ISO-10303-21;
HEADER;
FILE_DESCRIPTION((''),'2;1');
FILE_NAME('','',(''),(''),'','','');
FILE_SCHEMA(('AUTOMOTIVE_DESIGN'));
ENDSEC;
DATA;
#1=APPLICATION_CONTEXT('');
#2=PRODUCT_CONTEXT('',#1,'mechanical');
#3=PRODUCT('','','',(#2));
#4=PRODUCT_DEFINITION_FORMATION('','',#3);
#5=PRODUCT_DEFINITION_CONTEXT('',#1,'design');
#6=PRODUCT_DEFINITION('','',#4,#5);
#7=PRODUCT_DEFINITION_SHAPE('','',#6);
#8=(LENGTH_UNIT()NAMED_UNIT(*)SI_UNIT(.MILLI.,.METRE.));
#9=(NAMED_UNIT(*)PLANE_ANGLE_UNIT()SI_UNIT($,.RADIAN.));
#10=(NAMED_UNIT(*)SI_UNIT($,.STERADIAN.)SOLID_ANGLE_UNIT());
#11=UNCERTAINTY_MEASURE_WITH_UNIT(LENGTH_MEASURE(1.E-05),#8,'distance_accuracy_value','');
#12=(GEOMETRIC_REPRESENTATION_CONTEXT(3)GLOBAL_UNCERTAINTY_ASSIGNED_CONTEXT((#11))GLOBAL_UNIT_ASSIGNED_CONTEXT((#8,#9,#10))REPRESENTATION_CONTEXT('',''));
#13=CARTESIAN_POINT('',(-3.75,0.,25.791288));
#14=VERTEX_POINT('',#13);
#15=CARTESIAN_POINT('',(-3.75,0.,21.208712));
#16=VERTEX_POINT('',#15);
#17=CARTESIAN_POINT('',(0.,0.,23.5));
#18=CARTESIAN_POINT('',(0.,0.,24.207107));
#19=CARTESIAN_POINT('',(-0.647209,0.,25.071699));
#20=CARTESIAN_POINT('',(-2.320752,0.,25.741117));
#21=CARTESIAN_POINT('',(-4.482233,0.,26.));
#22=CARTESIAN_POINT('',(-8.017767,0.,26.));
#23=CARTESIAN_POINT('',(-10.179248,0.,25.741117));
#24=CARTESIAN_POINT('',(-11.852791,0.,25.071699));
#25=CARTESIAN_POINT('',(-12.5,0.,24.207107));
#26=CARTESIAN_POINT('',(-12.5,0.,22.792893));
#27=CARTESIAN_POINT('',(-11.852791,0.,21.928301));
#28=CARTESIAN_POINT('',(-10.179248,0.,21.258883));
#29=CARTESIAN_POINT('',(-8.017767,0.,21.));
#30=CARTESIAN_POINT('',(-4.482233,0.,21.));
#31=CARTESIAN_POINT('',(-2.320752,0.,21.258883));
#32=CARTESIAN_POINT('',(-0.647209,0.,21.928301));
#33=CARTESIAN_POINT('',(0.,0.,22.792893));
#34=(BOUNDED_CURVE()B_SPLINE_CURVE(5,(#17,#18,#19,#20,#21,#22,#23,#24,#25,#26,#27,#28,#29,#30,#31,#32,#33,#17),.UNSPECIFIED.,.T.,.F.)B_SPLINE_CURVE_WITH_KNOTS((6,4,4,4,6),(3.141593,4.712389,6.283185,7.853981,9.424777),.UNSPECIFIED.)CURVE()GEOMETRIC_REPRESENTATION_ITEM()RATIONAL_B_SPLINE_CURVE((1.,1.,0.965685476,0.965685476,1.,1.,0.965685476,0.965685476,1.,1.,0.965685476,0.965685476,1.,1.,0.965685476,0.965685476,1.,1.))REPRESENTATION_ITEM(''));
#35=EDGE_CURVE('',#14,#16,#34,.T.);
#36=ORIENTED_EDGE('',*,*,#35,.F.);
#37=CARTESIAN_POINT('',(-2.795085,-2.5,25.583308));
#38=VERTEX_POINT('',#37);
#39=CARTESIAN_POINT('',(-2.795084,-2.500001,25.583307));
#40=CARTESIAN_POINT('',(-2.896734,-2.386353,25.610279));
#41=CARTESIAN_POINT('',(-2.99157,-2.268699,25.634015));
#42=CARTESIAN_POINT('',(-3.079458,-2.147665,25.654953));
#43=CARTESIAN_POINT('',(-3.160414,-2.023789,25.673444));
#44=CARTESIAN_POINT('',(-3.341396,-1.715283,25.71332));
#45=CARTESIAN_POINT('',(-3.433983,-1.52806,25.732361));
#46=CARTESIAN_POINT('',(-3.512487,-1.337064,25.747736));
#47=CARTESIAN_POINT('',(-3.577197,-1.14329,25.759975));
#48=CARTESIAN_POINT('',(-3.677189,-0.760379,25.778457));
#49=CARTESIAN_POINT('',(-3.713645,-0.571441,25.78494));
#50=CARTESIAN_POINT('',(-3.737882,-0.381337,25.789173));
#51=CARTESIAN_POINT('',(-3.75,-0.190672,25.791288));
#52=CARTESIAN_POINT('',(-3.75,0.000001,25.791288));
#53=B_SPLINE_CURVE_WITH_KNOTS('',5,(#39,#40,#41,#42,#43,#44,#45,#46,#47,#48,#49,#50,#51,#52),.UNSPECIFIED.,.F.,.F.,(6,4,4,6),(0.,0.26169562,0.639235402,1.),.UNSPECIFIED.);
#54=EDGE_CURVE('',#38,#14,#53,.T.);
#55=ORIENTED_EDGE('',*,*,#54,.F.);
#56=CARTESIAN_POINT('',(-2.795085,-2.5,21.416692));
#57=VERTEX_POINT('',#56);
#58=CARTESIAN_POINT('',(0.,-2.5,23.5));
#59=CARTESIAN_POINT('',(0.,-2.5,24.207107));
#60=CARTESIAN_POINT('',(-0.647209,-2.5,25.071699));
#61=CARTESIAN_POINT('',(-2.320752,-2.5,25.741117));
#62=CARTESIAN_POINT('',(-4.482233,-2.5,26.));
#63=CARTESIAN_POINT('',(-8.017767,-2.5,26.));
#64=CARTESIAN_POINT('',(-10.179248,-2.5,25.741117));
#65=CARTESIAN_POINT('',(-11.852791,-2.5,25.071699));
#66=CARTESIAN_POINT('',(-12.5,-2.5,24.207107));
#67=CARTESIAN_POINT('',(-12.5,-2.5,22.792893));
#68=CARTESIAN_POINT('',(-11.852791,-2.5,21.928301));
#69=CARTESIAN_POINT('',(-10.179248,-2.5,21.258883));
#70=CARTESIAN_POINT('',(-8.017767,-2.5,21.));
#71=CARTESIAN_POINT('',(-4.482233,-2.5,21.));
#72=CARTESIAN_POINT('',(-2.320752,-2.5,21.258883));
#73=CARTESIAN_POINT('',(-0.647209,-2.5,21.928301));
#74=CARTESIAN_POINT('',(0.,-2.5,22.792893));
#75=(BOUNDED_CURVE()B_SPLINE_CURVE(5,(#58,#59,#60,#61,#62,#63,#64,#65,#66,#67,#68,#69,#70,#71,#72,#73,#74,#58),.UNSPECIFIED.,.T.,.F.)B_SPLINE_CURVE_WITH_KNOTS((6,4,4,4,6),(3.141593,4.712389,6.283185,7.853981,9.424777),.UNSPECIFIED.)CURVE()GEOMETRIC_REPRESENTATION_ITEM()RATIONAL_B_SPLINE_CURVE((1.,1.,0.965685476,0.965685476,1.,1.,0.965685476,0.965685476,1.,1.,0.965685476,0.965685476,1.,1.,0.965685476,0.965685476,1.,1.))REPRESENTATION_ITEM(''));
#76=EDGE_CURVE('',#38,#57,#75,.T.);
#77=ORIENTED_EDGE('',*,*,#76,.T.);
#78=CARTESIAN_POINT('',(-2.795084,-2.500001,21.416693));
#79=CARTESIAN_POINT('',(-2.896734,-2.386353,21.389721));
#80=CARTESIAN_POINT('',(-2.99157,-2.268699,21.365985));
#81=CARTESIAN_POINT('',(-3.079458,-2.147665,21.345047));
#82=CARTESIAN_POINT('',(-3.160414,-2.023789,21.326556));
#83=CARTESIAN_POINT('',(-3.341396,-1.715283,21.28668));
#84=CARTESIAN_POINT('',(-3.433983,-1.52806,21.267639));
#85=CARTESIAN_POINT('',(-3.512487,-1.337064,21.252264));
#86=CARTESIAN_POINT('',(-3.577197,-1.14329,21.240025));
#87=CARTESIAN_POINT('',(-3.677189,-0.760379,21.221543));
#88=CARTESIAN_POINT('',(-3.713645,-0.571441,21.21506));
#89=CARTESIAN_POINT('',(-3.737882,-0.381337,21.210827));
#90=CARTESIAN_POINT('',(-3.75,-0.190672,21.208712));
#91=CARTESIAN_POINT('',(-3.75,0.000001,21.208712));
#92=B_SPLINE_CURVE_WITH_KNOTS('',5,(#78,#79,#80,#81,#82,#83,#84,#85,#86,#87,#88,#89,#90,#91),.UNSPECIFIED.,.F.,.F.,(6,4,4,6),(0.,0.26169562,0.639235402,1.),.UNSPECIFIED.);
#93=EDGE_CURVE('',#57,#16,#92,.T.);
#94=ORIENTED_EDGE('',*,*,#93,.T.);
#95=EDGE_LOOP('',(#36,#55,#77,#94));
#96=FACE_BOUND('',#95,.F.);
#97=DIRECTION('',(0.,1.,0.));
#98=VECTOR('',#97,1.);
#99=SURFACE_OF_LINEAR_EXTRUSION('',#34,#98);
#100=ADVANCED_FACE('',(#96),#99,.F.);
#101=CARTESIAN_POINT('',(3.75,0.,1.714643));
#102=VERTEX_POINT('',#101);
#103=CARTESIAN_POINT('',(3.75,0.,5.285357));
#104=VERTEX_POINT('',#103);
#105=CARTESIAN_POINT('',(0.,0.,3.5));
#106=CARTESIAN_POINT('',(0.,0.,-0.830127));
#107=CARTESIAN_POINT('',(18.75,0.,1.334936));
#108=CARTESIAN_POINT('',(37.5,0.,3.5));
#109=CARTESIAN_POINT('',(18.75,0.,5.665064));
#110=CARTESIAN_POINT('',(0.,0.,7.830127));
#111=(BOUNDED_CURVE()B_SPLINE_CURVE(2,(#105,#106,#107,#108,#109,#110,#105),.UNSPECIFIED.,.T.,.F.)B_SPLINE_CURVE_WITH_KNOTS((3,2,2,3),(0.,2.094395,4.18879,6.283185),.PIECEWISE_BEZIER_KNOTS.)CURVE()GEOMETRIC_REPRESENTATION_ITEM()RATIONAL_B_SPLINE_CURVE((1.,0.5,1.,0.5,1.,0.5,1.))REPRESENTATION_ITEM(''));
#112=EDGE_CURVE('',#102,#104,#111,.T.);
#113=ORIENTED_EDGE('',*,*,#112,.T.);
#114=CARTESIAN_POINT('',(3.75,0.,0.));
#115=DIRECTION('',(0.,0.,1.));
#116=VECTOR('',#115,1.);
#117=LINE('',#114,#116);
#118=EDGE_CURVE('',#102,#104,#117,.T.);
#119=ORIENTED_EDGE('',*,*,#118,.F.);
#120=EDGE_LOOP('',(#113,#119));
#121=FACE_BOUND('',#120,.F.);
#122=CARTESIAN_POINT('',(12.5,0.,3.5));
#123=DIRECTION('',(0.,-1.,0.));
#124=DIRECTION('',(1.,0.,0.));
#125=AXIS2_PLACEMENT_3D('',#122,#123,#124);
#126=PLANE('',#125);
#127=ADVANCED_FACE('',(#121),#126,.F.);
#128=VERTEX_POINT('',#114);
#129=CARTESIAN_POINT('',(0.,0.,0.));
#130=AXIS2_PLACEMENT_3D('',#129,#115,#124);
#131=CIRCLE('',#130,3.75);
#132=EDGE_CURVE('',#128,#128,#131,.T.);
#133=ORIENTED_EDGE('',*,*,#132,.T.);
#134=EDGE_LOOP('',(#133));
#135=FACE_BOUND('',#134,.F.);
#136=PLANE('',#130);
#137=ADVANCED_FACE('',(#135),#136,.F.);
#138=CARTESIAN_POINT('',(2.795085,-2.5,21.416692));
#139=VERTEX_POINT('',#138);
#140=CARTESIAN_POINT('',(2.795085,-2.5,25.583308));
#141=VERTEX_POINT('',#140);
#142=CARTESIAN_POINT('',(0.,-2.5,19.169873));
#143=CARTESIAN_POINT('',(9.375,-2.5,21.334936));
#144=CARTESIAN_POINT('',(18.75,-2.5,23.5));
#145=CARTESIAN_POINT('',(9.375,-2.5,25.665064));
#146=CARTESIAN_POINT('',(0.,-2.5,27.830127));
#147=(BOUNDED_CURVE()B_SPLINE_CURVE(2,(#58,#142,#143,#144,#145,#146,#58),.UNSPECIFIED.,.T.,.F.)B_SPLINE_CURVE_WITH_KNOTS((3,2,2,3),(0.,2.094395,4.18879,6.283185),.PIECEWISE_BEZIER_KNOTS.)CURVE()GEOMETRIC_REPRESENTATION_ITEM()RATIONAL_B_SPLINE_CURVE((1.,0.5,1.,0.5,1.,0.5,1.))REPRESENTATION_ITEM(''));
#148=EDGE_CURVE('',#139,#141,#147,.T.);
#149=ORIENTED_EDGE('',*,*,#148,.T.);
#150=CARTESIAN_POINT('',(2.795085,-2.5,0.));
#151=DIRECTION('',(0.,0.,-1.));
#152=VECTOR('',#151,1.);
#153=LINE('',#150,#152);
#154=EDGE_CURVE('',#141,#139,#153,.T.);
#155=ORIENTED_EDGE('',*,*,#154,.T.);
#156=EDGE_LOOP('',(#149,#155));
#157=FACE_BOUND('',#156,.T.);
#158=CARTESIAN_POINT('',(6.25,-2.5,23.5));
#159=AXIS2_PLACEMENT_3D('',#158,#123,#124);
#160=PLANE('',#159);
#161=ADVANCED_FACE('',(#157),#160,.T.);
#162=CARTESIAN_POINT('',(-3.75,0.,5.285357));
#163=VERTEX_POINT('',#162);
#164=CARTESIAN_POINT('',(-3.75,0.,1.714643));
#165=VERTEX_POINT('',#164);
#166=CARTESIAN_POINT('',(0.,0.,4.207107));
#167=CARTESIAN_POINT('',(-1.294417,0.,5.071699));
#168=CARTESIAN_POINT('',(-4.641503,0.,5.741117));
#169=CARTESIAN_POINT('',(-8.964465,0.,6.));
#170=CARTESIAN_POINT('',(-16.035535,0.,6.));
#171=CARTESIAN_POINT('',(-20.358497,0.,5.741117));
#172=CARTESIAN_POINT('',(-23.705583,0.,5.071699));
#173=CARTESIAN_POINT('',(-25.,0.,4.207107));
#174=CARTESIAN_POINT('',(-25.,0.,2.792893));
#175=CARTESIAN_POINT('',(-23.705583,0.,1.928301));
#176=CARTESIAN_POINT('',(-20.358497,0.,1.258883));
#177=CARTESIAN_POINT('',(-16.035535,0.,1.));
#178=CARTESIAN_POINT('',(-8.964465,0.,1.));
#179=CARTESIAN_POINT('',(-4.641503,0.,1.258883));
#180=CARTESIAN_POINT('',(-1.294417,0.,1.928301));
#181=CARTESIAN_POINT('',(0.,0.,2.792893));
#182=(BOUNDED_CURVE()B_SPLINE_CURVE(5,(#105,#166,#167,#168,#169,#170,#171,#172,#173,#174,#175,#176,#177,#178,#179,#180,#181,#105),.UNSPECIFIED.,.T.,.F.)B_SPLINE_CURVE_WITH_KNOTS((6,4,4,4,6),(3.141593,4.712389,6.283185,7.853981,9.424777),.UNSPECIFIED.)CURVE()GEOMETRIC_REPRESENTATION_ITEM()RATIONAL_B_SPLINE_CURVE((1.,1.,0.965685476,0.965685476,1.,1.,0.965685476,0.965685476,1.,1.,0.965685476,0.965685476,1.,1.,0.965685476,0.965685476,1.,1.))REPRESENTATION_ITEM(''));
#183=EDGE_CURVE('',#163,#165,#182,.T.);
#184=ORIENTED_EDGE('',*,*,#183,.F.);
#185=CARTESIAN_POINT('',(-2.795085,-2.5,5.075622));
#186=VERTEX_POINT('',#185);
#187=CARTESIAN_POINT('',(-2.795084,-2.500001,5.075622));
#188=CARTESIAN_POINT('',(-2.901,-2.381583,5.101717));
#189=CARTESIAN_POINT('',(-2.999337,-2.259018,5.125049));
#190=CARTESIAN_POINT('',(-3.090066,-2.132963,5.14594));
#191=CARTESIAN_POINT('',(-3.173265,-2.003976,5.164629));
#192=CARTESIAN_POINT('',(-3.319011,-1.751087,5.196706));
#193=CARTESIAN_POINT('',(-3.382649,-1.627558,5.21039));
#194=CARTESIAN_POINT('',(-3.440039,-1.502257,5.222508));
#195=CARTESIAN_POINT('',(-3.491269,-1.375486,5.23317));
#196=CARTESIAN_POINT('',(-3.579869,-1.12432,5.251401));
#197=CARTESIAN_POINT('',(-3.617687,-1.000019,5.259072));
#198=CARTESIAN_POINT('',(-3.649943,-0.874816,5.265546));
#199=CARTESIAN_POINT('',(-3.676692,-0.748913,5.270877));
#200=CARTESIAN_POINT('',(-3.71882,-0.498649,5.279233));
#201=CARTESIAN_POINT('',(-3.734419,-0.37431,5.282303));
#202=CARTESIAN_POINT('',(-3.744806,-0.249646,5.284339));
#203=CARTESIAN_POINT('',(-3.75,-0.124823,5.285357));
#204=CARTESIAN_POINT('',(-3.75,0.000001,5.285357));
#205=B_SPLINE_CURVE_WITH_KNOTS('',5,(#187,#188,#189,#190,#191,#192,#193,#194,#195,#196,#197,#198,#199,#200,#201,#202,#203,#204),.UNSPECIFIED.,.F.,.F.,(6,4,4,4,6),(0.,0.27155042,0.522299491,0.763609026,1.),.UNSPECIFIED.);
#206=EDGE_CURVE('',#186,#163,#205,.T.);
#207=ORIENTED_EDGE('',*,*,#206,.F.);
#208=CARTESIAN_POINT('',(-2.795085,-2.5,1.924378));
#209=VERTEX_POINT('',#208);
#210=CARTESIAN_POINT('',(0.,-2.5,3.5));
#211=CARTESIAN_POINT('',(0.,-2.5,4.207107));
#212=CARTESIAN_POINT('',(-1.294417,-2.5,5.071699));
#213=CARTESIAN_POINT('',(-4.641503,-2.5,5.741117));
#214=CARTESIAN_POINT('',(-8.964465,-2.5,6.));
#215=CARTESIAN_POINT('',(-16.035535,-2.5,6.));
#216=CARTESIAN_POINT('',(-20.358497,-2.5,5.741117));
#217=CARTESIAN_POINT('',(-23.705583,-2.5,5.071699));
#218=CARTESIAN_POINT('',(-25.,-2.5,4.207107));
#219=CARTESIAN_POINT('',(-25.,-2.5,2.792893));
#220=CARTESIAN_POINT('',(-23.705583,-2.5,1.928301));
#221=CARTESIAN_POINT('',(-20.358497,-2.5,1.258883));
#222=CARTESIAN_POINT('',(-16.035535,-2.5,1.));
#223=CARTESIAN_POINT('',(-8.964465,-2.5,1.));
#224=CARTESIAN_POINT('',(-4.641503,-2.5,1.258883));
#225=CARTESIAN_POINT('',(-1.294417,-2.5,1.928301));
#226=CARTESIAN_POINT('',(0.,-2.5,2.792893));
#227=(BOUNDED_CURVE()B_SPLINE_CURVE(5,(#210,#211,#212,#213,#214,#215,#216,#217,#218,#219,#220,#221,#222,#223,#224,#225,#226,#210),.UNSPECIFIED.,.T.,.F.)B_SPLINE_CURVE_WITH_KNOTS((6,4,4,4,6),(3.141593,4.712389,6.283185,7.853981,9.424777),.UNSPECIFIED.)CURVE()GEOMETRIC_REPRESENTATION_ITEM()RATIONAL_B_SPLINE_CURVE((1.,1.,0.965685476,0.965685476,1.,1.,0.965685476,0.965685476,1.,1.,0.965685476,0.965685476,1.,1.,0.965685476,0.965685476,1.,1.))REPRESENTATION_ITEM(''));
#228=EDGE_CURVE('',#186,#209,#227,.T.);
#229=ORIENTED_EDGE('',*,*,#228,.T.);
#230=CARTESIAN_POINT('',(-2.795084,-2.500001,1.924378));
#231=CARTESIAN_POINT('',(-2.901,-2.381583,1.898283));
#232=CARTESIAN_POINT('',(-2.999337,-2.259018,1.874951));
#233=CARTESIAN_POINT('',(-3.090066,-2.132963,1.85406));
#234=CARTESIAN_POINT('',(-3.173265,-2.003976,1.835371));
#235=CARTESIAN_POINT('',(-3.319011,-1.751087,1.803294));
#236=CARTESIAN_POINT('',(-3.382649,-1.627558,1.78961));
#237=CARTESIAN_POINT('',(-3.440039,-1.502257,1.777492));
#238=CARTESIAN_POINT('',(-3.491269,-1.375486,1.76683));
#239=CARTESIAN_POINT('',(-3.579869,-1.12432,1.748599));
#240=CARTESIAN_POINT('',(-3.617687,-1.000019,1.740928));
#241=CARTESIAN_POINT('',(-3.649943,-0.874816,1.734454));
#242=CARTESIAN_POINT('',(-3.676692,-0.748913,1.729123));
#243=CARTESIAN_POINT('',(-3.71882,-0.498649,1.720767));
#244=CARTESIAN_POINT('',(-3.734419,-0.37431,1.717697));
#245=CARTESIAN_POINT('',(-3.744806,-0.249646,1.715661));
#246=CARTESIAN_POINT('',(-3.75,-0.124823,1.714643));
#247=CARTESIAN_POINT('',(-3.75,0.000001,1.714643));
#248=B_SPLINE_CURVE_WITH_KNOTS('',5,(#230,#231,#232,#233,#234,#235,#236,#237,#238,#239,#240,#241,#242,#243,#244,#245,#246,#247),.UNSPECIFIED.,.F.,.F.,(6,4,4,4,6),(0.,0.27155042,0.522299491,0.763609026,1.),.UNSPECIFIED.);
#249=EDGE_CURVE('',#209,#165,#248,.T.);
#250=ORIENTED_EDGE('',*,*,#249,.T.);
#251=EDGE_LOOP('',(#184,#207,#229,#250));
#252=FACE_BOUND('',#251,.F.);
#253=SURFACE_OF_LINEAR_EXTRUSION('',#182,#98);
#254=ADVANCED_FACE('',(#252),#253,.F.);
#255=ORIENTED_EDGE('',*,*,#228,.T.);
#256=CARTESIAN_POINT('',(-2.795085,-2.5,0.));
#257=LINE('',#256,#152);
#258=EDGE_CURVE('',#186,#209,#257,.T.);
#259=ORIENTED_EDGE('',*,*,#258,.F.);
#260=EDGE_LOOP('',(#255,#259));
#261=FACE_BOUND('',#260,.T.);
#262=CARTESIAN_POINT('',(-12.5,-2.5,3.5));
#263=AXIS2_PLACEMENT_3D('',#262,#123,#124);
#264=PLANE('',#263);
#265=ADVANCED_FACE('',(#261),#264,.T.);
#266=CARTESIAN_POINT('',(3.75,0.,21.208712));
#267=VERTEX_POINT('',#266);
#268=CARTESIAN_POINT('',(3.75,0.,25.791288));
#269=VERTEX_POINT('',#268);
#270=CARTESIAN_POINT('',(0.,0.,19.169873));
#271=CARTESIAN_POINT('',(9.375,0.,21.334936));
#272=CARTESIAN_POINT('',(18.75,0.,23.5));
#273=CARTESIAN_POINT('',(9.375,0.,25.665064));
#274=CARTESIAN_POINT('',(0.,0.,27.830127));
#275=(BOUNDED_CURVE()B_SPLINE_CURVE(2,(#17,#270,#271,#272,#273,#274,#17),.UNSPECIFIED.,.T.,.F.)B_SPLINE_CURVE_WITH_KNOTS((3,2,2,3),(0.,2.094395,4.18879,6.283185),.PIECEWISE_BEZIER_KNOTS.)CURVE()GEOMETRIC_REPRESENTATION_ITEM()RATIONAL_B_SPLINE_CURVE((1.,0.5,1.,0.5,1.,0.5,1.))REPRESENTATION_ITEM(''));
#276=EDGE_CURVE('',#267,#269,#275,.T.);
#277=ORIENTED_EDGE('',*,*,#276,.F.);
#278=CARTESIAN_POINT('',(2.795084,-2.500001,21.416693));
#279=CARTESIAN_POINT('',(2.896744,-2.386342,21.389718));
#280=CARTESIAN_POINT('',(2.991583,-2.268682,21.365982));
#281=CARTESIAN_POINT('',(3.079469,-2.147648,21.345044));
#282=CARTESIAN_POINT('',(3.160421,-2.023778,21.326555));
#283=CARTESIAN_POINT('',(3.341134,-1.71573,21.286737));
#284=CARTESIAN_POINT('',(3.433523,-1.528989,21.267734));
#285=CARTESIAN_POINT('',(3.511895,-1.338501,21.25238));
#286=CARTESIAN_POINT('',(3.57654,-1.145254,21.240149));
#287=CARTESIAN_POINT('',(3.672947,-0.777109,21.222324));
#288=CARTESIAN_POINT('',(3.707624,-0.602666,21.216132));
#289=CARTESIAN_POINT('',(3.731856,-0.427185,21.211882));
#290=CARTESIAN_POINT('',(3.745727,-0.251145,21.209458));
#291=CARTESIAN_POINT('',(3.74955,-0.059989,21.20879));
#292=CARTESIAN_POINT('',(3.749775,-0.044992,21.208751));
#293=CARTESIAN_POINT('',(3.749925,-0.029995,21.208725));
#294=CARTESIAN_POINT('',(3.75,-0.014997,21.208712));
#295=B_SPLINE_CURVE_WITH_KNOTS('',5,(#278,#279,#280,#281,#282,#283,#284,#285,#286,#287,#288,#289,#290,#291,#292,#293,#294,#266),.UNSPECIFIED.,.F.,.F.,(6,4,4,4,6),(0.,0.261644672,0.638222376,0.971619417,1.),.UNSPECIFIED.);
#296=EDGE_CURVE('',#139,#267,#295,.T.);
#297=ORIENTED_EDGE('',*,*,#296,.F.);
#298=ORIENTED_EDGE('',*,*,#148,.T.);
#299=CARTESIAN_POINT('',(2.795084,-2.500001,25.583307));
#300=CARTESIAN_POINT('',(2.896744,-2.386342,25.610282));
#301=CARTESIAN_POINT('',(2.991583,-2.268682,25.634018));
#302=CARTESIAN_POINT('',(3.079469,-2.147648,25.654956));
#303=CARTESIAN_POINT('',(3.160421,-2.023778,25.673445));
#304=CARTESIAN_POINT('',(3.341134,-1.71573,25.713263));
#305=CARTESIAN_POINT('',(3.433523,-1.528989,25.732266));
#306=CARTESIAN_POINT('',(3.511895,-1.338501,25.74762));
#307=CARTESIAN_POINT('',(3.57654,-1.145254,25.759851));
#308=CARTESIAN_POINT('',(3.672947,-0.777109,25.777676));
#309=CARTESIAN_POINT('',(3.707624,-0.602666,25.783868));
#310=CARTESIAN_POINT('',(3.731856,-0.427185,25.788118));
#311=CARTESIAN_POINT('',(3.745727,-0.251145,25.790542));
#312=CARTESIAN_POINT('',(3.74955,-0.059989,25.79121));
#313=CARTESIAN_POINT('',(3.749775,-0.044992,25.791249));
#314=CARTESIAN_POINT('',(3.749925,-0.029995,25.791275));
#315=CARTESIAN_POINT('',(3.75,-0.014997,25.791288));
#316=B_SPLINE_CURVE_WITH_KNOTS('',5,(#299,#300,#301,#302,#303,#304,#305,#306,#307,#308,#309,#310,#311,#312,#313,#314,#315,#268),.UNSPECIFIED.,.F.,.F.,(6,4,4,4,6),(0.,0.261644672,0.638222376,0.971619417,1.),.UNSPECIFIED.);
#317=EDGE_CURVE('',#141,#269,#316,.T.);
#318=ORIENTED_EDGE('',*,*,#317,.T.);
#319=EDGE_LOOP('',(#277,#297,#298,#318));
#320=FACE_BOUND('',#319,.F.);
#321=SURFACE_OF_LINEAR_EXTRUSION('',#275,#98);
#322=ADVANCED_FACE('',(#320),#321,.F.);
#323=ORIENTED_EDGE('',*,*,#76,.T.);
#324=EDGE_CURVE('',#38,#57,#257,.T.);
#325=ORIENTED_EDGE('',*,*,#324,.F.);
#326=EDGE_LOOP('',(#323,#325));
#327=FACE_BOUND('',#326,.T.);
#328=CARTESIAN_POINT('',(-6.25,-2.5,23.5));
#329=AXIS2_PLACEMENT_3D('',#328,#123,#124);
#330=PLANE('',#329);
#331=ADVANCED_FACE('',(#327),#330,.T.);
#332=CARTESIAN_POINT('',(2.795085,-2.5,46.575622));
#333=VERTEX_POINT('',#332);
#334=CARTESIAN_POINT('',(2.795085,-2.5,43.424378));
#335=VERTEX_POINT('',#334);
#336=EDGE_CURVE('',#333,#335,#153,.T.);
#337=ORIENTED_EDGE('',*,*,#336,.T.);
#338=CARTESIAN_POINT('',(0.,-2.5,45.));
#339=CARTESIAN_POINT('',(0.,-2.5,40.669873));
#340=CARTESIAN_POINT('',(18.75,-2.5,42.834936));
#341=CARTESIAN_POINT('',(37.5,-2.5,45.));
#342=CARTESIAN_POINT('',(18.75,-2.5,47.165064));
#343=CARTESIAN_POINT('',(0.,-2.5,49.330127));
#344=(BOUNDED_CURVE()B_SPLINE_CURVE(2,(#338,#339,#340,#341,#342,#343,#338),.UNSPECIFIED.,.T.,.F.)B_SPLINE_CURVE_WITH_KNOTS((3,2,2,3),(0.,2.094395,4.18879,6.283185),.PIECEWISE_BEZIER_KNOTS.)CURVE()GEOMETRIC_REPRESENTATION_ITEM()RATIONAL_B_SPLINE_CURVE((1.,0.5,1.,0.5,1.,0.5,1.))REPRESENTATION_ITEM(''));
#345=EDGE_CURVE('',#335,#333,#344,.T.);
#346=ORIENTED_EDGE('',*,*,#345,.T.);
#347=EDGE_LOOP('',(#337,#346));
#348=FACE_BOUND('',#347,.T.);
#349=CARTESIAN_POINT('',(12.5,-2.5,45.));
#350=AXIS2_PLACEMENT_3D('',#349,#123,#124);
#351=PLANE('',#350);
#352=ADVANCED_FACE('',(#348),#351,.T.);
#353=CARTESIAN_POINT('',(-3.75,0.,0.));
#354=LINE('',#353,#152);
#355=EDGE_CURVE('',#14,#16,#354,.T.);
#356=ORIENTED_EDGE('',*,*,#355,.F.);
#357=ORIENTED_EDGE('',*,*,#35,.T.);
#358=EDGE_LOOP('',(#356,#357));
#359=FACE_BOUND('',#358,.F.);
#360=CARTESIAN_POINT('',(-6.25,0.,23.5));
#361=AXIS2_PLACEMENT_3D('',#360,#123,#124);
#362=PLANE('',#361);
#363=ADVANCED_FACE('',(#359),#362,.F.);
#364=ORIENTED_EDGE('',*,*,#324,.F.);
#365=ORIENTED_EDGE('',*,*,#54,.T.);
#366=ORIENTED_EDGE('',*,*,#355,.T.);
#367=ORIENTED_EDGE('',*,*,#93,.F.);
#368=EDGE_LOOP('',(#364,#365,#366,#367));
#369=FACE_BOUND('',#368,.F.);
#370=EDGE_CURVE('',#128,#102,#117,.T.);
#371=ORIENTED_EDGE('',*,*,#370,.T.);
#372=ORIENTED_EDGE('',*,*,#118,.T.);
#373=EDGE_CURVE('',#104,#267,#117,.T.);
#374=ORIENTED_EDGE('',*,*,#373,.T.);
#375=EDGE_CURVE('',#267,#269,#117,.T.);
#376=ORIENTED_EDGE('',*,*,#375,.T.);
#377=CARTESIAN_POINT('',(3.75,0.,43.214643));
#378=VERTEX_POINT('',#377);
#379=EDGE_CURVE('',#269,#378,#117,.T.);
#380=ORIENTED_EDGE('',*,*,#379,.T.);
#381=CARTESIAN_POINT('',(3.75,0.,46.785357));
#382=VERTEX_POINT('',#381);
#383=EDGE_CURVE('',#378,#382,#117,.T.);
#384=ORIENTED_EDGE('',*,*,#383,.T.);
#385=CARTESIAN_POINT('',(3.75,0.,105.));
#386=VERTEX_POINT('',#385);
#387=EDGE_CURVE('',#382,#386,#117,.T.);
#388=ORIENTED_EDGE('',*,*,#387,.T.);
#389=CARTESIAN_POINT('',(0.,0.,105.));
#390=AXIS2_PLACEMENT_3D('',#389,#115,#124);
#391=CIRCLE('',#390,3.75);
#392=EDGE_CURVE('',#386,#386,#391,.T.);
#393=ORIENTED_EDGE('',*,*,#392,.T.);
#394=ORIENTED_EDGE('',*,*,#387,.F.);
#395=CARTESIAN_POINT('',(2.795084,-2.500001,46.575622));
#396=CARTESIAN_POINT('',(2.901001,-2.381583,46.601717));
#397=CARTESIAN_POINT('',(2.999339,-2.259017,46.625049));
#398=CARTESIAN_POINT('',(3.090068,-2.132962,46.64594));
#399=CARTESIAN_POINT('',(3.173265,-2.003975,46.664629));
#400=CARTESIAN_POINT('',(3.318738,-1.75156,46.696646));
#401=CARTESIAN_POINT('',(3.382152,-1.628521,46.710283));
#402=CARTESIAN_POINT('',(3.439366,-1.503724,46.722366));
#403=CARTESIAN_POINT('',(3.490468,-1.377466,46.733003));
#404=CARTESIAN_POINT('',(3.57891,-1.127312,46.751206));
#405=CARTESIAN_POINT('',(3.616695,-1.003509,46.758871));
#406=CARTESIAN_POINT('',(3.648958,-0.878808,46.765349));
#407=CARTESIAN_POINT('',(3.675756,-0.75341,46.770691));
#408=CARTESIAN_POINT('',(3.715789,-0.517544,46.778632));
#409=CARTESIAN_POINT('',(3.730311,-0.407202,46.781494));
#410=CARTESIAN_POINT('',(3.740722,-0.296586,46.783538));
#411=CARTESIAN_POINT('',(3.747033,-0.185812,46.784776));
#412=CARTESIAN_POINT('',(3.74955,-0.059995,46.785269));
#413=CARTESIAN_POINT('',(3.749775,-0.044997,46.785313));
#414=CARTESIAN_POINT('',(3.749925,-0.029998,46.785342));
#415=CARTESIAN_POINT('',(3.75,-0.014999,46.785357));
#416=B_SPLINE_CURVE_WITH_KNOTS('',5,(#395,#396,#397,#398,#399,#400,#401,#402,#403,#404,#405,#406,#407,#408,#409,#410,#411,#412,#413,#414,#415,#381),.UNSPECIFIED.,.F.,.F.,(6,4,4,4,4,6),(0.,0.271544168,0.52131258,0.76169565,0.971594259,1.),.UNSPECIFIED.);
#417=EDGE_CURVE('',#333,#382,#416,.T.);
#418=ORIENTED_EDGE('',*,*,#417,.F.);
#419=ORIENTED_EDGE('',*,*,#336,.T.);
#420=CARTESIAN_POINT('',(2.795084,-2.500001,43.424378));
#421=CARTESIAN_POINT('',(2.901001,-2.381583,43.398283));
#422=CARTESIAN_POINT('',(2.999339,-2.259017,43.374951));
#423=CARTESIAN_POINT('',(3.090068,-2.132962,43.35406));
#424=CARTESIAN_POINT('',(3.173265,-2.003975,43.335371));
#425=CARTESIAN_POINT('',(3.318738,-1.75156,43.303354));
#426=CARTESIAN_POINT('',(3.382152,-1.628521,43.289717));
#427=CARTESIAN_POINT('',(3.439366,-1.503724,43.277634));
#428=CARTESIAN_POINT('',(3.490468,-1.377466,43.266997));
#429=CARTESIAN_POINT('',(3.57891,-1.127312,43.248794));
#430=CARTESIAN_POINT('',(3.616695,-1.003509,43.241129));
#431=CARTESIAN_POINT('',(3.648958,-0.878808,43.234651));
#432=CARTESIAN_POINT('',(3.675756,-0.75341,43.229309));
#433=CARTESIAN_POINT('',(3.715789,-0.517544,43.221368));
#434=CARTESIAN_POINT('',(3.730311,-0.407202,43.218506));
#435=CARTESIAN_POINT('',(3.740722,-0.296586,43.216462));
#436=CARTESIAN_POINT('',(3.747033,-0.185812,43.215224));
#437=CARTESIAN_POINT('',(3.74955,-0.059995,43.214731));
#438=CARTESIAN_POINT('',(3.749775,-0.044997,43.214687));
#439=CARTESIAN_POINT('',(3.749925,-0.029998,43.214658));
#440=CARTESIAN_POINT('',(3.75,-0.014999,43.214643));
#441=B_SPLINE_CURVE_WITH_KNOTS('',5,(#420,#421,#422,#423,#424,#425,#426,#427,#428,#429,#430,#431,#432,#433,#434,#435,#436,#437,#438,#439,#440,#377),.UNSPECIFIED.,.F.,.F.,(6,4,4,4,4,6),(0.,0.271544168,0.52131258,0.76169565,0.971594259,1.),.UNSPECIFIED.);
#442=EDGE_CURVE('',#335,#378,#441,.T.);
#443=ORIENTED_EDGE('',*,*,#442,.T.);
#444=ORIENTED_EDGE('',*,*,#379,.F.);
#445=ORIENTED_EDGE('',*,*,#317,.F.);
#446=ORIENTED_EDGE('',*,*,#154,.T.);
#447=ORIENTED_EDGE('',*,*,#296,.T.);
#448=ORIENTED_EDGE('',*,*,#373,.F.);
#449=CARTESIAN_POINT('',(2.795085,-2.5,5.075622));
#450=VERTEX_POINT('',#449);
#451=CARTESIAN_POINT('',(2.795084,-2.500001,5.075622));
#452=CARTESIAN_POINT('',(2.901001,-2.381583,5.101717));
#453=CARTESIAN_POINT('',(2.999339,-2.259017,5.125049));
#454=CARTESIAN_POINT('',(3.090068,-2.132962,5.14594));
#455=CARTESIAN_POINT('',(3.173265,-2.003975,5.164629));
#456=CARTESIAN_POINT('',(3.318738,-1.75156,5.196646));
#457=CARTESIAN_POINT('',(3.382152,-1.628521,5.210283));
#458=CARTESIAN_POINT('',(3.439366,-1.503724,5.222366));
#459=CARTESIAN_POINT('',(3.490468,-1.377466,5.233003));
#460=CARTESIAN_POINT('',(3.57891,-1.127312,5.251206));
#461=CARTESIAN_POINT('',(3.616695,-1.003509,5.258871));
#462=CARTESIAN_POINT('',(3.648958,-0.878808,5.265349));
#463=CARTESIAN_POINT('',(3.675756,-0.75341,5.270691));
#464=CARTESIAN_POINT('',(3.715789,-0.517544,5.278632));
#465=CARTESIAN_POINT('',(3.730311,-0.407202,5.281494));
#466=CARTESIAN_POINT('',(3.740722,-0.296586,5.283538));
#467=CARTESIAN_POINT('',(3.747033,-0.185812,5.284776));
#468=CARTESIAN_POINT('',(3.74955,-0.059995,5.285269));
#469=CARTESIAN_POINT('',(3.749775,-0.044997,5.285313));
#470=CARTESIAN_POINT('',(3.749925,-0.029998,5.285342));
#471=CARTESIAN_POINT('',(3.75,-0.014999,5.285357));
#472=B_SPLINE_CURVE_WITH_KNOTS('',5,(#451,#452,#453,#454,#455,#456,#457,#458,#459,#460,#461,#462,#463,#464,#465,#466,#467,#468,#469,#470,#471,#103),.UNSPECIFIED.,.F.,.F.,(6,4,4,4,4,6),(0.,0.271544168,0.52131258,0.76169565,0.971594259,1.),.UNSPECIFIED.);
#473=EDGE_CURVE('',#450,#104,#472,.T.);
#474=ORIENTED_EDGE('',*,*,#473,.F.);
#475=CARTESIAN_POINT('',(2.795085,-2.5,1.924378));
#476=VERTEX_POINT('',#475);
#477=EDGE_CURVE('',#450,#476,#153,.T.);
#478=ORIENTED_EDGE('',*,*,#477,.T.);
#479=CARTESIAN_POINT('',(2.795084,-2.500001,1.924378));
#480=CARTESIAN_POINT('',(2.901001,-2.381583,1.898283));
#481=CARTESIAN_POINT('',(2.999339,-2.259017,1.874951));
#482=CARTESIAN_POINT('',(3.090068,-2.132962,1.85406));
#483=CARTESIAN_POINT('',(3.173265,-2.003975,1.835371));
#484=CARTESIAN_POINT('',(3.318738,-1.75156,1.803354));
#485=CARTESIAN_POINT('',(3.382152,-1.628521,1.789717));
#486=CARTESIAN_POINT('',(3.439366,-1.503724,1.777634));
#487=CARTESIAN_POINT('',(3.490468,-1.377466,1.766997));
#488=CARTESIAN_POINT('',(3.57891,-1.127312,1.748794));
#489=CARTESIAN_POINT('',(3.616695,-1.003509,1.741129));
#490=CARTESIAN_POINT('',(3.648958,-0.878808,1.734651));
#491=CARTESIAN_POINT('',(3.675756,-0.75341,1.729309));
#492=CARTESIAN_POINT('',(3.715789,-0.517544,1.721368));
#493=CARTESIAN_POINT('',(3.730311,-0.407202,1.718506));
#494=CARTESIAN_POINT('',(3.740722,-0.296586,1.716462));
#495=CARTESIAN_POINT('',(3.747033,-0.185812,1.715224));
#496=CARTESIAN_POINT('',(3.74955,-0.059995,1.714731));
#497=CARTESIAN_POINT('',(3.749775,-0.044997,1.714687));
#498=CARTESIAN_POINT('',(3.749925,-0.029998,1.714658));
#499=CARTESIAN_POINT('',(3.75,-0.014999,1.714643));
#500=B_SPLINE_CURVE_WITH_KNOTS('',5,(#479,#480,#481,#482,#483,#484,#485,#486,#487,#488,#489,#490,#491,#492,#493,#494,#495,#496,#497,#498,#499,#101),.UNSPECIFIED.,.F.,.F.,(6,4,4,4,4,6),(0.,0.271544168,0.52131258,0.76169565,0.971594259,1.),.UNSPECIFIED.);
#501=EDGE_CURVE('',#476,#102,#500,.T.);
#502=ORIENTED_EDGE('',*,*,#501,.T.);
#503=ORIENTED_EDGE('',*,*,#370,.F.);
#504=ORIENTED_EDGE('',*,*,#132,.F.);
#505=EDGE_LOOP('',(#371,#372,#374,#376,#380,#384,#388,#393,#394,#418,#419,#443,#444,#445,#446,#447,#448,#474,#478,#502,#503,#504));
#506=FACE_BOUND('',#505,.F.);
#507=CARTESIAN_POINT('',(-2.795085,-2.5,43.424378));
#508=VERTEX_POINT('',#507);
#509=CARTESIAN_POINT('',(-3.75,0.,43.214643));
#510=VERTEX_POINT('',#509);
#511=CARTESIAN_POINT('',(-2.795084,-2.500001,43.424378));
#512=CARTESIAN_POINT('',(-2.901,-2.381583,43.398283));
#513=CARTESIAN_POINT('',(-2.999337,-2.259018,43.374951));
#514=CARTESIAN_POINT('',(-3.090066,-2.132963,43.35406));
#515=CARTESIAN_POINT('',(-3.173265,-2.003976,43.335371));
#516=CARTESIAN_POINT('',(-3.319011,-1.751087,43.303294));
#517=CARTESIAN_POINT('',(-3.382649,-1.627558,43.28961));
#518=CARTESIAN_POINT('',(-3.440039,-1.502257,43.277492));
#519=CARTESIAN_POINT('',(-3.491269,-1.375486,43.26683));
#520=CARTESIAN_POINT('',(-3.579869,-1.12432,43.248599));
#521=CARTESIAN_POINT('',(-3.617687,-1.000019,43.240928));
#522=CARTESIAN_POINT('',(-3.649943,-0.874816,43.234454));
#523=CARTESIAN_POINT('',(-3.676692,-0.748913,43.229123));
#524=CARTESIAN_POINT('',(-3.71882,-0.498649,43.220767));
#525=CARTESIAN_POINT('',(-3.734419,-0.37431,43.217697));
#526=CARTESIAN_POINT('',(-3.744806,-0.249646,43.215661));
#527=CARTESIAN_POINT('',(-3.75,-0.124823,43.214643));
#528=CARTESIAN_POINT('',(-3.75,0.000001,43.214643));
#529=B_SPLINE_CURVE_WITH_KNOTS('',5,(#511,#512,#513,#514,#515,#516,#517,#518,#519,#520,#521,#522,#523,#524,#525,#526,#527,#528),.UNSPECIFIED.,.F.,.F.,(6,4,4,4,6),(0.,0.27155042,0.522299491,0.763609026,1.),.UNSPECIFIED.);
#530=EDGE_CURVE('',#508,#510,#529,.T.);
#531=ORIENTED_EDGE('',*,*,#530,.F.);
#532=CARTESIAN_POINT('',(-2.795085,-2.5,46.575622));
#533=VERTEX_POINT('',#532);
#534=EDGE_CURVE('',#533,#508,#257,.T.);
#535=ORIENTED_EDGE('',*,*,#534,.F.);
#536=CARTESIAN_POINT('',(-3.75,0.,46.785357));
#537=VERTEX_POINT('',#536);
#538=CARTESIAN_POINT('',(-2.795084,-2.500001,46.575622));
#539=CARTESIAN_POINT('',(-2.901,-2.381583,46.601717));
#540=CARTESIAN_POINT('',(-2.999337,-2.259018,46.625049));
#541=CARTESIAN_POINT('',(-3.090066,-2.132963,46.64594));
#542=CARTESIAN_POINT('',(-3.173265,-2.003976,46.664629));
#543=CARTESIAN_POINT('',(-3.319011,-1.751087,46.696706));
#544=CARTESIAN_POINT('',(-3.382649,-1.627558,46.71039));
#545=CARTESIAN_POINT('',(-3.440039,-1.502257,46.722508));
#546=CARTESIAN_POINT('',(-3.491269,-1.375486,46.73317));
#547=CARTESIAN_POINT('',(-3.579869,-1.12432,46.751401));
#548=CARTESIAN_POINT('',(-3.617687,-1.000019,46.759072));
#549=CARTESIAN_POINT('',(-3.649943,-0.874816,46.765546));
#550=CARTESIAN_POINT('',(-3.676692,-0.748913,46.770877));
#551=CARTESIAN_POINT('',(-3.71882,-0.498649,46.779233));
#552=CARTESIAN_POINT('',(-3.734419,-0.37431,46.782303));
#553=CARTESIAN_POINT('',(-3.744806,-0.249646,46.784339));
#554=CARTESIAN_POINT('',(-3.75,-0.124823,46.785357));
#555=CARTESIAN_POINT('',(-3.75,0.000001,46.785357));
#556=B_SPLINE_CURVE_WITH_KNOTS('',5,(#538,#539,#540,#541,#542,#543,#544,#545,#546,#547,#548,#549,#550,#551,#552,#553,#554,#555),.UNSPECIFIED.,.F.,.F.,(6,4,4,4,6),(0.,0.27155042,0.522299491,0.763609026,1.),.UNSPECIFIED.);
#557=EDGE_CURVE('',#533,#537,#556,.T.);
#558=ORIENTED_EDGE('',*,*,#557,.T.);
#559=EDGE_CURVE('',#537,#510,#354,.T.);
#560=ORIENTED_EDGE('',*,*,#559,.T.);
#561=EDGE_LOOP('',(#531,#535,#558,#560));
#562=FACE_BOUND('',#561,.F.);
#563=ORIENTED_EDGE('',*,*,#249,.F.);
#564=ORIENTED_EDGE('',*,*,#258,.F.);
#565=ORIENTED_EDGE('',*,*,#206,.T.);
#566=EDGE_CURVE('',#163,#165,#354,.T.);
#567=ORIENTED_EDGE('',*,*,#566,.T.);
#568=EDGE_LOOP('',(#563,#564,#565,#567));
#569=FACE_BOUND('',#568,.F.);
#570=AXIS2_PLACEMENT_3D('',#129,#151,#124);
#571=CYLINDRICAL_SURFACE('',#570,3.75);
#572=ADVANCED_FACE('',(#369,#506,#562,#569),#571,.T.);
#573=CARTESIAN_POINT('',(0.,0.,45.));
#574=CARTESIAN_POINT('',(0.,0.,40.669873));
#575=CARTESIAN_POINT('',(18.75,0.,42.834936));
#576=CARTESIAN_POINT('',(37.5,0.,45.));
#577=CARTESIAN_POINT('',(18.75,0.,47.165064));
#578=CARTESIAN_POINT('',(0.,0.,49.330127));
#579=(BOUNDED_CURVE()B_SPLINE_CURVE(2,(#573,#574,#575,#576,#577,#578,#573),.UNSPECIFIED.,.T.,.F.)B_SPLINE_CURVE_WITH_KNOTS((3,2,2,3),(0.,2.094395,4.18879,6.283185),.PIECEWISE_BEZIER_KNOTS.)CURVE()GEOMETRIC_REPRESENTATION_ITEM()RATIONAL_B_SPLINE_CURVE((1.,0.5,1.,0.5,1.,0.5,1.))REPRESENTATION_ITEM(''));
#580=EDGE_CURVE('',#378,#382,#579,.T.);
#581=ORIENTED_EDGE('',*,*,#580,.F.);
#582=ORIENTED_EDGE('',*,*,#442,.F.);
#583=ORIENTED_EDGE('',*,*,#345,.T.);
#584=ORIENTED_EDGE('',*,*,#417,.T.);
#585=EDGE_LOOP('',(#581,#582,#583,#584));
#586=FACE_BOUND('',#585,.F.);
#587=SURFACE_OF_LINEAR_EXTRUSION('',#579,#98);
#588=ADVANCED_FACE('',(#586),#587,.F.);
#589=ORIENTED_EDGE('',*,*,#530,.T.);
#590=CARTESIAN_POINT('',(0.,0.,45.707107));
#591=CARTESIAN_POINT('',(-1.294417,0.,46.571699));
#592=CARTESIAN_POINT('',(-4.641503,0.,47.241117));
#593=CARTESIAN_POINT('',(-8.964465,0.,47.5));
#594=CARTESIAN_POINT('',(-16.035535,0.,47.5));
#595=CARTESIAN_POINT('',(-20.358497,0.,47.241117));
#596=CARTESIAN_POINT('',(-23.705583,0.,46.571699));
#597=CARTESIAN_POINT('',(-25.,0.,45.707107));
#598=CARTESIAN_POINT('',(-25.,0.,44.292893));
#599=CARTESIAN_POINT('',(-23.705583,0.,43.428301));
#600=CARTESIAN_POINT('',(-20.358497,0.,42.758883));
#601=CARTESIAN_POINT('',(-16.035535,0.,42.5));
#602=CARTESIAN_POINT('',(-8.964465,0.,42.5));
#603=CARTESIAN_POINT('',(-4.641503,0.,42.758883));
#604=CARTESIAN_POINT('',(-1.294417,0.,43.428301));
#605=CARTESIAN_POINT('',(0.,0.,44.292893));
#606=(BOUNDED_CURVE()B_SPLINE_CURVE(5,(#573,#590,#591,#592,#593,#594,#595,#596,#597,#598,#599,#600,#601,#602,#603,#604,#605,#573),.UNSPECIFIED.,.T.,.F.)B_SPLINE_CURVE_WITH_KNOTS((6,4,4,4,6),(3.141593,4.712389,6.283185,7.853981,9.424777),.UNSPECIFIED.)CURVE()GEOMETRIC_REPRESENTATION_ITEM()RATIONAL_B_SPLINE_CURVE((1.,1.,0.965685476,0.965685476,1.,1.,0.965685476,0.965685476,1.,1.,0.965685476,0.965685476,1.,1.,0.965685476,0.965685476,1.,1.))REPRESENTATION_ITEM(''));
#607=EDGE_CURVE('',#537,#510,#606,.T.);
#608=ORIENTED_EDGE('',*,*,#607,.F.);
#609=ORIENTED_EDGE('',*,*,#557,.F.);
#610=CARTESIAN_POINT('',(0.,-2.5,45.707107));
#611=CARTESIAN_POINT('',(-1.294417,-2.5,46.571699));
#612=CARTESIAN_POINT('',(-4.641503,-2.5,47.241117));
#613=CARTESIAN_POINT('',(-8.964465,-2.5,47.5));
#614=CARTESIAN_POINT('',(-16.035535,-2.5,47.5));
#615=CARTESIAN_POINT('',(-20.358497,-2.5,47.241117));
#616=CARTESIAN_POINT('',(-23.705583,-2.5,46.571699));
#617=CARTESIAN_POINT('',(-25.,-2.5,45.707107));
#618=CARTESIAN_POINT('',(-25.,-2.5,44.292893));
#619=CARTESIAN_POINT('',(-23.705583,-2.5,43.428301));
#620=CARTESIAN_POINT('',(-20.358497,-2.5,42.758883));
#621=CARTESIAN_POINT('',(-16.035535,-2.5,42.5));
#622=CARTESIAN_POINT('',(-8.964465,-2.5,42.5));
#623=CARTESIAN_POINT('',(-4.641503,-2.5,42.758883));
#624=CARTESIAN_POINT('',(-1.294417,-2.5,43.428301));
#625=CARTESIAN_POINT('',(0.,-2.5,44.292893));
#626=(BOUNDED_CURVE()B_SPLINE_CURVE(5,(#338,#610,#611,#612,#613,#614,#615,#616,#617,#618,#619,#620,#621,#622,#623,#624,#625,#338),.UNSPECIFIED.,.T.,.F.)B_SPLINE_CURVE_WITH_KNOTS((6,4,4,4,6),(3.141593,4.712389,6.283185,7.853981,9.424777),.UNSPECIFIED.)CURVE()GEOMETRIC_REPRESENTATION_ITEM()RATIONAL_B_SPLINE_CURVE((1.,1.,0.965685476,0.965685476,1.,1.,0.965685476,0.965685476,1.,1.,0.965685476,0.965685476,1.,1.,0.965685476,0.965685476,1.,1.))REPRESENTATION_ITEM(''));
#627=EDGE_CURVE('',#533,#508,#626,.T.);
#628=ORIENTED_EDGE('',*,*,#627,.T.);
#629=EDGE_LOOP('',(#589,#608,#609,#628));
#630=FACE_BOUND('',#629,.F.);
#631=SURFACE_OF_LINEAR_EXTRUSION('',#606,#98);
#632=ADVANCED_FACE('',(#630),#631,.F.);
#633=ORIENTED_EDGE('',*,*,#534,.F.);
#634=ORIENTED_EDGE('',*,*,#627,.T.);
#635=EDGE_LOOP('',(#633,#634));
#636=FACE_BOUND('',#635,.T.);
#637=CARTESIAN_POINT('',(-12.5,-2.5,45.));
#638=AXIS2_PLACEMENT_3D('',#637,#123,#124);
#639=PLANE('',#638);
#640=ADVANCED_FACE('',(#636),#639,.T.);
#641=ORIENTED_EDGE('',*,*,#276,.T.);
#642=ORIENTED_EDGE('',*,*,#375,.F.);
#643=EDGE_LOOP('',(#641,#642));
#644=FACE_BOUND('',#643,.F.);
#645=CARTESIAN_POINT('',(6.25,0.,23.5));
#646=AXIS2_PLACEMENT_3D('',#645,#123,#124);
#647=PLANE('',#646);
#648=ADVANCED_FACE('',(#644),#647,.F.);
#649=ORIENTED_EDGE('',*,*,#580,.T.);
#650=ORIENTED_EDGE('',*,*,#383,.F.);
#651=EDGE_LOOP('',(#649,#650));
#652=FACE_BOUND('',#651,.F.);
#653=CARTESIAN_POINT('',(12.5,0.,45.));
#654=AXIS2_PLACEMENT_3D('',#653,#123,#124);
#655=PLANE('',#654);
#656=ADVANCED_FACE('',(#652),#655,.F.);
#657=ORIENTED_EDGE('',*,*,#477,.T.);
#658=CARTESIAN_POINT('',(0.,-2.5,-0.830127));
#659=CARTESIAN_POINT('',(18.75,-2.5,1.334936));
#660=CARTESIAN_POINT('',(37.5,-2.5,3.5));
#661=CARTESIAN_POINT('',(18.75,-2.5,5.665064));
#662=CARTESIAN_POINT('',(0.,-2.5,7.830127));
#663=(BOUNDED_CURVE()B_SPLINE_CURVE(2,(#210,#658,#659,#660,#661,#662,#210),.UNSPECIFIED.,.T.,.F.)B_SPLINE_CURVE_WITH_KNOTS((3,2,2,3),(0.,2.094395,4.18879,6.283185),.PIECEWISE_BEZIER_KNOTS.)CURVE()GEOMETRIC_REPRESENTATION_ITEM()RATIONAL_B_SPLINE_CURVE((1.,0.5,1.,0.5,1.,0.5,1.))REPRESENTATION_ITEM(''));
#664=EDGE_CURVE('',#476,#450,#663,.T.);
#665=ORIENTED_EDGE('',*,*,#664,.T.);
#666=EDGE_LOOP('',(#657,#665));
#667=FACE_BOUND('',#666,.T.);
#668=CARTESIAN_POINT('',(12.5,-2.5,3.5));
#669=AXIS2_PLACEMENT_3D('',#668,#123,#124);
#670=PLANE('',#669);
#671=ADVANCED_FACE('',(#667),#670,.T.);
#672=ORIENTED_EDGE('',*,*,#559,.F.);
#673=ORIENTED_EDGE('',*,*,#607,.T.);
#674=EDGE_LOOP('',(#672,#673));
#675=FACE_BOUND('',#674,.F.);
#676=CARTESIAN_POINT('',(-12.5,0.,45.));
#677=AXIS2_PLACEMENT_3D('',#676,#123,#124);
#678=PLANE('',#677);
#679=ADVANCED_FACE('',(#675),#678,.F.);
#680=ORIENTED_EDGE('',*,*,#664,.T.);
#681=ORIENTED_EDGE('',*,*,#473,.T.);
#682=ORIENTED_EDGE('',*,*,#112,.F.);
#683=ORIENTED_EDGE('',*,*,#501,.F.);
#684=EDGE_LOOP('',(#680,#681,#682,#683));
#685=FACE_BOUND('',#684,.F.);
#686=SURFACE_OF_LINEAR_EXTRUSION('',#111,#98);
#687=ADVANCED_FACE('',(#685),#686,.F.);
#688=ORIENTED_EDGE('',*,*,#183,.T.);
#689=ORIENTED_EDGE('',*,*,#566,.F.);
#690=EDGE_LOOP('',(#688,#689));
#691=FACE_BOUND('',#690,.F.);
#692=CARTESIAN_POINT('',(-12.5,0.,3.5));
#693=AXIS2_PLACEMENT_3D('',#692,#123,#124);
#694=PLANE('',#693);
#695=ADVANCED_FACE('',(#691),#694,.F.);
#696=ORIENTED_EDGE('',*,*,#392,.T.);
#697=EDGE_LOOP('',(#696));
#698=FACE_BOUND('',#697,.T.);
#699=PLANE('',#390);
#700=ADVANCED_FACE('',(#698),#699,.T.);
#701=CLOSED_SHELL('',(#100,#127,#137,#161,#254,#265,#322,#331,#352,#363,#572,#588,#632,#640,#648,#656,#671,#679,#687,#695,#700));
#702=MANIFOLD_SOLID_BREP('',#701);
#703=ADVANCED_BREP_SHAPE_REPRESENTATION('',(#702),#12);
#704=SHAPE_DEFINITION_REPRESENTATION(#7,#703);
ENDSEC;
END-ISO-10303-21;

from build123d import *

# Parameters (mm, degrees)
F0_R     = 3.75
F1_DEPTH = 105
F3_DEPTH = 2.5


with BuildPart() as f1:
    # F0 (on Top) → F1 (new body)
    with BuildSketch(Plane.XY):
        Circle(F0_R)
    extrude(amount=F1_DEPTH)

    # F2 (on Front) → F3 (join)
    with BuildSketch(Plane.XZ):
        with BuildLine():
            add(Edge.make_bspline(
                [(-25, 3.5), (-25, 1), (-12.5, 1), (0, 1), (0, 3.5)],
                knots=[0, 0, 0, 1.570796, 1.570796, 3.141593, 3.141593, 3.141593], degree=2, weights=[1, 0.707107, 1, 0.707107, 1]))
            add(Edge.make_bspline(
                [(0, 3.5), (0, 6), (-12.5, 6), (-25, 6), (-25, 3.5)],
                knots=[3.141593, 3.141593, 3.141593, 4.712389, 4.712389, 6.283185, 6.283185, 6.283185], degree=2, weights=[1, 0.707107, 1, 0.707107, 1]))
        make_face()
        with BuildLine():
            add(Edge.make_bspline(
                [(0, 23.5), (0, 19.169873), (9.375, 21.334936), (18.75, 23.5), (9.375, 25.665064), (0, 27.830127), (0, 23.5)],
                knots=[0, 0, 0, 2.094395, 2.094395, 4.18879, 4.18879, 6.283185, 6.283185, 6.283185], degree=2, weights=[1, 0.5, 1, 0.5, 1, 0.5, 1]))
        make_face()
        with BuildLine():
            add(Edge.make_bspline(
                [(-12.5, 23.5), (-12.5, 21), (-6.25, 21), (0, 21), (0, 23.5)],
                knots=[0, 0, 0, 1.570796, 1.570796, 3.141593, 3.141593, 3.141593], degree=2, weights=[1, 0.707107, 1, 0.707107, 1]))
            add(Edge.make_bspline(
                [(0, 23.5), (0, 26), (-6.25, 26), (-12.5, 26), (-12.5, 23.5)],
                knots=[3.141593, 3.141593, 3.141593, 4.712389, 4.712389, 6.283185, 6.283185, 6.283185], degree=2, weights=[1, 0.707107, 1, 0.707107, 1]))
        make_face()
        with BuildLine():
            add(Edge.make_bspline(
                [(0, 45), (0, 40.669873), (18.75, 42.834936), (37.5, 45), (18.75, 47.165064), (0, 49.330127), (0, 45)],
                knots=[0, 0, 0, 2.094395, 2.094395, 4.18879, 4.18879, 6.283185, 6.283185, 6.283185], degree=2, weights=[1, 0.5, 1, 0.5, 1, 0.5, 1]))
        make_face()
        with BuildLine():
            add(Edge.make_bspline(
                [(-25, 45), (-25, 42.5), (-12.5, 42.5), (0, 42.5), (0, 45)],
                knots=[0, 0, 0, 1.570796, 1.570796, 3.141593, 3.141593, 3.141593], degree=2, weights=[1, 0.707107, 1, 0.707107, 1]))
            add(Edge.make_bspline(
                [(0, 45), (0, 47.5), (-12.5, 47.5), (-25, 47.5), (-25, 45)],
                knots=[3.141593, 3.141593, 3.141593, 4.712389, 4.712389, 6.283185, 6.283185, 6.283185], degree=2, weights=[1, 0.707107, 1, 0.707107, 1]))
        make_face()
        with BuildLine():
            add(Edge.make_bspline(
                [(0, 3.5), (0, -0.830127), (18.75, 1.334936), (37.5, 3.5), (18.75, 5.665064), (0, 7.830127), (0, 3.5)],
                knots=[0, 0, 0, 2.094395, 2.094395, 4.18879, 4.18879, 6.283185, 6.283185, 6.283185], degree=2, weights=[1, 0.5, 1, 0.5, 1, 0.5, 1]))
        make_face()
    extrude(amount=F3_DEPTH)


solid = f1.part
